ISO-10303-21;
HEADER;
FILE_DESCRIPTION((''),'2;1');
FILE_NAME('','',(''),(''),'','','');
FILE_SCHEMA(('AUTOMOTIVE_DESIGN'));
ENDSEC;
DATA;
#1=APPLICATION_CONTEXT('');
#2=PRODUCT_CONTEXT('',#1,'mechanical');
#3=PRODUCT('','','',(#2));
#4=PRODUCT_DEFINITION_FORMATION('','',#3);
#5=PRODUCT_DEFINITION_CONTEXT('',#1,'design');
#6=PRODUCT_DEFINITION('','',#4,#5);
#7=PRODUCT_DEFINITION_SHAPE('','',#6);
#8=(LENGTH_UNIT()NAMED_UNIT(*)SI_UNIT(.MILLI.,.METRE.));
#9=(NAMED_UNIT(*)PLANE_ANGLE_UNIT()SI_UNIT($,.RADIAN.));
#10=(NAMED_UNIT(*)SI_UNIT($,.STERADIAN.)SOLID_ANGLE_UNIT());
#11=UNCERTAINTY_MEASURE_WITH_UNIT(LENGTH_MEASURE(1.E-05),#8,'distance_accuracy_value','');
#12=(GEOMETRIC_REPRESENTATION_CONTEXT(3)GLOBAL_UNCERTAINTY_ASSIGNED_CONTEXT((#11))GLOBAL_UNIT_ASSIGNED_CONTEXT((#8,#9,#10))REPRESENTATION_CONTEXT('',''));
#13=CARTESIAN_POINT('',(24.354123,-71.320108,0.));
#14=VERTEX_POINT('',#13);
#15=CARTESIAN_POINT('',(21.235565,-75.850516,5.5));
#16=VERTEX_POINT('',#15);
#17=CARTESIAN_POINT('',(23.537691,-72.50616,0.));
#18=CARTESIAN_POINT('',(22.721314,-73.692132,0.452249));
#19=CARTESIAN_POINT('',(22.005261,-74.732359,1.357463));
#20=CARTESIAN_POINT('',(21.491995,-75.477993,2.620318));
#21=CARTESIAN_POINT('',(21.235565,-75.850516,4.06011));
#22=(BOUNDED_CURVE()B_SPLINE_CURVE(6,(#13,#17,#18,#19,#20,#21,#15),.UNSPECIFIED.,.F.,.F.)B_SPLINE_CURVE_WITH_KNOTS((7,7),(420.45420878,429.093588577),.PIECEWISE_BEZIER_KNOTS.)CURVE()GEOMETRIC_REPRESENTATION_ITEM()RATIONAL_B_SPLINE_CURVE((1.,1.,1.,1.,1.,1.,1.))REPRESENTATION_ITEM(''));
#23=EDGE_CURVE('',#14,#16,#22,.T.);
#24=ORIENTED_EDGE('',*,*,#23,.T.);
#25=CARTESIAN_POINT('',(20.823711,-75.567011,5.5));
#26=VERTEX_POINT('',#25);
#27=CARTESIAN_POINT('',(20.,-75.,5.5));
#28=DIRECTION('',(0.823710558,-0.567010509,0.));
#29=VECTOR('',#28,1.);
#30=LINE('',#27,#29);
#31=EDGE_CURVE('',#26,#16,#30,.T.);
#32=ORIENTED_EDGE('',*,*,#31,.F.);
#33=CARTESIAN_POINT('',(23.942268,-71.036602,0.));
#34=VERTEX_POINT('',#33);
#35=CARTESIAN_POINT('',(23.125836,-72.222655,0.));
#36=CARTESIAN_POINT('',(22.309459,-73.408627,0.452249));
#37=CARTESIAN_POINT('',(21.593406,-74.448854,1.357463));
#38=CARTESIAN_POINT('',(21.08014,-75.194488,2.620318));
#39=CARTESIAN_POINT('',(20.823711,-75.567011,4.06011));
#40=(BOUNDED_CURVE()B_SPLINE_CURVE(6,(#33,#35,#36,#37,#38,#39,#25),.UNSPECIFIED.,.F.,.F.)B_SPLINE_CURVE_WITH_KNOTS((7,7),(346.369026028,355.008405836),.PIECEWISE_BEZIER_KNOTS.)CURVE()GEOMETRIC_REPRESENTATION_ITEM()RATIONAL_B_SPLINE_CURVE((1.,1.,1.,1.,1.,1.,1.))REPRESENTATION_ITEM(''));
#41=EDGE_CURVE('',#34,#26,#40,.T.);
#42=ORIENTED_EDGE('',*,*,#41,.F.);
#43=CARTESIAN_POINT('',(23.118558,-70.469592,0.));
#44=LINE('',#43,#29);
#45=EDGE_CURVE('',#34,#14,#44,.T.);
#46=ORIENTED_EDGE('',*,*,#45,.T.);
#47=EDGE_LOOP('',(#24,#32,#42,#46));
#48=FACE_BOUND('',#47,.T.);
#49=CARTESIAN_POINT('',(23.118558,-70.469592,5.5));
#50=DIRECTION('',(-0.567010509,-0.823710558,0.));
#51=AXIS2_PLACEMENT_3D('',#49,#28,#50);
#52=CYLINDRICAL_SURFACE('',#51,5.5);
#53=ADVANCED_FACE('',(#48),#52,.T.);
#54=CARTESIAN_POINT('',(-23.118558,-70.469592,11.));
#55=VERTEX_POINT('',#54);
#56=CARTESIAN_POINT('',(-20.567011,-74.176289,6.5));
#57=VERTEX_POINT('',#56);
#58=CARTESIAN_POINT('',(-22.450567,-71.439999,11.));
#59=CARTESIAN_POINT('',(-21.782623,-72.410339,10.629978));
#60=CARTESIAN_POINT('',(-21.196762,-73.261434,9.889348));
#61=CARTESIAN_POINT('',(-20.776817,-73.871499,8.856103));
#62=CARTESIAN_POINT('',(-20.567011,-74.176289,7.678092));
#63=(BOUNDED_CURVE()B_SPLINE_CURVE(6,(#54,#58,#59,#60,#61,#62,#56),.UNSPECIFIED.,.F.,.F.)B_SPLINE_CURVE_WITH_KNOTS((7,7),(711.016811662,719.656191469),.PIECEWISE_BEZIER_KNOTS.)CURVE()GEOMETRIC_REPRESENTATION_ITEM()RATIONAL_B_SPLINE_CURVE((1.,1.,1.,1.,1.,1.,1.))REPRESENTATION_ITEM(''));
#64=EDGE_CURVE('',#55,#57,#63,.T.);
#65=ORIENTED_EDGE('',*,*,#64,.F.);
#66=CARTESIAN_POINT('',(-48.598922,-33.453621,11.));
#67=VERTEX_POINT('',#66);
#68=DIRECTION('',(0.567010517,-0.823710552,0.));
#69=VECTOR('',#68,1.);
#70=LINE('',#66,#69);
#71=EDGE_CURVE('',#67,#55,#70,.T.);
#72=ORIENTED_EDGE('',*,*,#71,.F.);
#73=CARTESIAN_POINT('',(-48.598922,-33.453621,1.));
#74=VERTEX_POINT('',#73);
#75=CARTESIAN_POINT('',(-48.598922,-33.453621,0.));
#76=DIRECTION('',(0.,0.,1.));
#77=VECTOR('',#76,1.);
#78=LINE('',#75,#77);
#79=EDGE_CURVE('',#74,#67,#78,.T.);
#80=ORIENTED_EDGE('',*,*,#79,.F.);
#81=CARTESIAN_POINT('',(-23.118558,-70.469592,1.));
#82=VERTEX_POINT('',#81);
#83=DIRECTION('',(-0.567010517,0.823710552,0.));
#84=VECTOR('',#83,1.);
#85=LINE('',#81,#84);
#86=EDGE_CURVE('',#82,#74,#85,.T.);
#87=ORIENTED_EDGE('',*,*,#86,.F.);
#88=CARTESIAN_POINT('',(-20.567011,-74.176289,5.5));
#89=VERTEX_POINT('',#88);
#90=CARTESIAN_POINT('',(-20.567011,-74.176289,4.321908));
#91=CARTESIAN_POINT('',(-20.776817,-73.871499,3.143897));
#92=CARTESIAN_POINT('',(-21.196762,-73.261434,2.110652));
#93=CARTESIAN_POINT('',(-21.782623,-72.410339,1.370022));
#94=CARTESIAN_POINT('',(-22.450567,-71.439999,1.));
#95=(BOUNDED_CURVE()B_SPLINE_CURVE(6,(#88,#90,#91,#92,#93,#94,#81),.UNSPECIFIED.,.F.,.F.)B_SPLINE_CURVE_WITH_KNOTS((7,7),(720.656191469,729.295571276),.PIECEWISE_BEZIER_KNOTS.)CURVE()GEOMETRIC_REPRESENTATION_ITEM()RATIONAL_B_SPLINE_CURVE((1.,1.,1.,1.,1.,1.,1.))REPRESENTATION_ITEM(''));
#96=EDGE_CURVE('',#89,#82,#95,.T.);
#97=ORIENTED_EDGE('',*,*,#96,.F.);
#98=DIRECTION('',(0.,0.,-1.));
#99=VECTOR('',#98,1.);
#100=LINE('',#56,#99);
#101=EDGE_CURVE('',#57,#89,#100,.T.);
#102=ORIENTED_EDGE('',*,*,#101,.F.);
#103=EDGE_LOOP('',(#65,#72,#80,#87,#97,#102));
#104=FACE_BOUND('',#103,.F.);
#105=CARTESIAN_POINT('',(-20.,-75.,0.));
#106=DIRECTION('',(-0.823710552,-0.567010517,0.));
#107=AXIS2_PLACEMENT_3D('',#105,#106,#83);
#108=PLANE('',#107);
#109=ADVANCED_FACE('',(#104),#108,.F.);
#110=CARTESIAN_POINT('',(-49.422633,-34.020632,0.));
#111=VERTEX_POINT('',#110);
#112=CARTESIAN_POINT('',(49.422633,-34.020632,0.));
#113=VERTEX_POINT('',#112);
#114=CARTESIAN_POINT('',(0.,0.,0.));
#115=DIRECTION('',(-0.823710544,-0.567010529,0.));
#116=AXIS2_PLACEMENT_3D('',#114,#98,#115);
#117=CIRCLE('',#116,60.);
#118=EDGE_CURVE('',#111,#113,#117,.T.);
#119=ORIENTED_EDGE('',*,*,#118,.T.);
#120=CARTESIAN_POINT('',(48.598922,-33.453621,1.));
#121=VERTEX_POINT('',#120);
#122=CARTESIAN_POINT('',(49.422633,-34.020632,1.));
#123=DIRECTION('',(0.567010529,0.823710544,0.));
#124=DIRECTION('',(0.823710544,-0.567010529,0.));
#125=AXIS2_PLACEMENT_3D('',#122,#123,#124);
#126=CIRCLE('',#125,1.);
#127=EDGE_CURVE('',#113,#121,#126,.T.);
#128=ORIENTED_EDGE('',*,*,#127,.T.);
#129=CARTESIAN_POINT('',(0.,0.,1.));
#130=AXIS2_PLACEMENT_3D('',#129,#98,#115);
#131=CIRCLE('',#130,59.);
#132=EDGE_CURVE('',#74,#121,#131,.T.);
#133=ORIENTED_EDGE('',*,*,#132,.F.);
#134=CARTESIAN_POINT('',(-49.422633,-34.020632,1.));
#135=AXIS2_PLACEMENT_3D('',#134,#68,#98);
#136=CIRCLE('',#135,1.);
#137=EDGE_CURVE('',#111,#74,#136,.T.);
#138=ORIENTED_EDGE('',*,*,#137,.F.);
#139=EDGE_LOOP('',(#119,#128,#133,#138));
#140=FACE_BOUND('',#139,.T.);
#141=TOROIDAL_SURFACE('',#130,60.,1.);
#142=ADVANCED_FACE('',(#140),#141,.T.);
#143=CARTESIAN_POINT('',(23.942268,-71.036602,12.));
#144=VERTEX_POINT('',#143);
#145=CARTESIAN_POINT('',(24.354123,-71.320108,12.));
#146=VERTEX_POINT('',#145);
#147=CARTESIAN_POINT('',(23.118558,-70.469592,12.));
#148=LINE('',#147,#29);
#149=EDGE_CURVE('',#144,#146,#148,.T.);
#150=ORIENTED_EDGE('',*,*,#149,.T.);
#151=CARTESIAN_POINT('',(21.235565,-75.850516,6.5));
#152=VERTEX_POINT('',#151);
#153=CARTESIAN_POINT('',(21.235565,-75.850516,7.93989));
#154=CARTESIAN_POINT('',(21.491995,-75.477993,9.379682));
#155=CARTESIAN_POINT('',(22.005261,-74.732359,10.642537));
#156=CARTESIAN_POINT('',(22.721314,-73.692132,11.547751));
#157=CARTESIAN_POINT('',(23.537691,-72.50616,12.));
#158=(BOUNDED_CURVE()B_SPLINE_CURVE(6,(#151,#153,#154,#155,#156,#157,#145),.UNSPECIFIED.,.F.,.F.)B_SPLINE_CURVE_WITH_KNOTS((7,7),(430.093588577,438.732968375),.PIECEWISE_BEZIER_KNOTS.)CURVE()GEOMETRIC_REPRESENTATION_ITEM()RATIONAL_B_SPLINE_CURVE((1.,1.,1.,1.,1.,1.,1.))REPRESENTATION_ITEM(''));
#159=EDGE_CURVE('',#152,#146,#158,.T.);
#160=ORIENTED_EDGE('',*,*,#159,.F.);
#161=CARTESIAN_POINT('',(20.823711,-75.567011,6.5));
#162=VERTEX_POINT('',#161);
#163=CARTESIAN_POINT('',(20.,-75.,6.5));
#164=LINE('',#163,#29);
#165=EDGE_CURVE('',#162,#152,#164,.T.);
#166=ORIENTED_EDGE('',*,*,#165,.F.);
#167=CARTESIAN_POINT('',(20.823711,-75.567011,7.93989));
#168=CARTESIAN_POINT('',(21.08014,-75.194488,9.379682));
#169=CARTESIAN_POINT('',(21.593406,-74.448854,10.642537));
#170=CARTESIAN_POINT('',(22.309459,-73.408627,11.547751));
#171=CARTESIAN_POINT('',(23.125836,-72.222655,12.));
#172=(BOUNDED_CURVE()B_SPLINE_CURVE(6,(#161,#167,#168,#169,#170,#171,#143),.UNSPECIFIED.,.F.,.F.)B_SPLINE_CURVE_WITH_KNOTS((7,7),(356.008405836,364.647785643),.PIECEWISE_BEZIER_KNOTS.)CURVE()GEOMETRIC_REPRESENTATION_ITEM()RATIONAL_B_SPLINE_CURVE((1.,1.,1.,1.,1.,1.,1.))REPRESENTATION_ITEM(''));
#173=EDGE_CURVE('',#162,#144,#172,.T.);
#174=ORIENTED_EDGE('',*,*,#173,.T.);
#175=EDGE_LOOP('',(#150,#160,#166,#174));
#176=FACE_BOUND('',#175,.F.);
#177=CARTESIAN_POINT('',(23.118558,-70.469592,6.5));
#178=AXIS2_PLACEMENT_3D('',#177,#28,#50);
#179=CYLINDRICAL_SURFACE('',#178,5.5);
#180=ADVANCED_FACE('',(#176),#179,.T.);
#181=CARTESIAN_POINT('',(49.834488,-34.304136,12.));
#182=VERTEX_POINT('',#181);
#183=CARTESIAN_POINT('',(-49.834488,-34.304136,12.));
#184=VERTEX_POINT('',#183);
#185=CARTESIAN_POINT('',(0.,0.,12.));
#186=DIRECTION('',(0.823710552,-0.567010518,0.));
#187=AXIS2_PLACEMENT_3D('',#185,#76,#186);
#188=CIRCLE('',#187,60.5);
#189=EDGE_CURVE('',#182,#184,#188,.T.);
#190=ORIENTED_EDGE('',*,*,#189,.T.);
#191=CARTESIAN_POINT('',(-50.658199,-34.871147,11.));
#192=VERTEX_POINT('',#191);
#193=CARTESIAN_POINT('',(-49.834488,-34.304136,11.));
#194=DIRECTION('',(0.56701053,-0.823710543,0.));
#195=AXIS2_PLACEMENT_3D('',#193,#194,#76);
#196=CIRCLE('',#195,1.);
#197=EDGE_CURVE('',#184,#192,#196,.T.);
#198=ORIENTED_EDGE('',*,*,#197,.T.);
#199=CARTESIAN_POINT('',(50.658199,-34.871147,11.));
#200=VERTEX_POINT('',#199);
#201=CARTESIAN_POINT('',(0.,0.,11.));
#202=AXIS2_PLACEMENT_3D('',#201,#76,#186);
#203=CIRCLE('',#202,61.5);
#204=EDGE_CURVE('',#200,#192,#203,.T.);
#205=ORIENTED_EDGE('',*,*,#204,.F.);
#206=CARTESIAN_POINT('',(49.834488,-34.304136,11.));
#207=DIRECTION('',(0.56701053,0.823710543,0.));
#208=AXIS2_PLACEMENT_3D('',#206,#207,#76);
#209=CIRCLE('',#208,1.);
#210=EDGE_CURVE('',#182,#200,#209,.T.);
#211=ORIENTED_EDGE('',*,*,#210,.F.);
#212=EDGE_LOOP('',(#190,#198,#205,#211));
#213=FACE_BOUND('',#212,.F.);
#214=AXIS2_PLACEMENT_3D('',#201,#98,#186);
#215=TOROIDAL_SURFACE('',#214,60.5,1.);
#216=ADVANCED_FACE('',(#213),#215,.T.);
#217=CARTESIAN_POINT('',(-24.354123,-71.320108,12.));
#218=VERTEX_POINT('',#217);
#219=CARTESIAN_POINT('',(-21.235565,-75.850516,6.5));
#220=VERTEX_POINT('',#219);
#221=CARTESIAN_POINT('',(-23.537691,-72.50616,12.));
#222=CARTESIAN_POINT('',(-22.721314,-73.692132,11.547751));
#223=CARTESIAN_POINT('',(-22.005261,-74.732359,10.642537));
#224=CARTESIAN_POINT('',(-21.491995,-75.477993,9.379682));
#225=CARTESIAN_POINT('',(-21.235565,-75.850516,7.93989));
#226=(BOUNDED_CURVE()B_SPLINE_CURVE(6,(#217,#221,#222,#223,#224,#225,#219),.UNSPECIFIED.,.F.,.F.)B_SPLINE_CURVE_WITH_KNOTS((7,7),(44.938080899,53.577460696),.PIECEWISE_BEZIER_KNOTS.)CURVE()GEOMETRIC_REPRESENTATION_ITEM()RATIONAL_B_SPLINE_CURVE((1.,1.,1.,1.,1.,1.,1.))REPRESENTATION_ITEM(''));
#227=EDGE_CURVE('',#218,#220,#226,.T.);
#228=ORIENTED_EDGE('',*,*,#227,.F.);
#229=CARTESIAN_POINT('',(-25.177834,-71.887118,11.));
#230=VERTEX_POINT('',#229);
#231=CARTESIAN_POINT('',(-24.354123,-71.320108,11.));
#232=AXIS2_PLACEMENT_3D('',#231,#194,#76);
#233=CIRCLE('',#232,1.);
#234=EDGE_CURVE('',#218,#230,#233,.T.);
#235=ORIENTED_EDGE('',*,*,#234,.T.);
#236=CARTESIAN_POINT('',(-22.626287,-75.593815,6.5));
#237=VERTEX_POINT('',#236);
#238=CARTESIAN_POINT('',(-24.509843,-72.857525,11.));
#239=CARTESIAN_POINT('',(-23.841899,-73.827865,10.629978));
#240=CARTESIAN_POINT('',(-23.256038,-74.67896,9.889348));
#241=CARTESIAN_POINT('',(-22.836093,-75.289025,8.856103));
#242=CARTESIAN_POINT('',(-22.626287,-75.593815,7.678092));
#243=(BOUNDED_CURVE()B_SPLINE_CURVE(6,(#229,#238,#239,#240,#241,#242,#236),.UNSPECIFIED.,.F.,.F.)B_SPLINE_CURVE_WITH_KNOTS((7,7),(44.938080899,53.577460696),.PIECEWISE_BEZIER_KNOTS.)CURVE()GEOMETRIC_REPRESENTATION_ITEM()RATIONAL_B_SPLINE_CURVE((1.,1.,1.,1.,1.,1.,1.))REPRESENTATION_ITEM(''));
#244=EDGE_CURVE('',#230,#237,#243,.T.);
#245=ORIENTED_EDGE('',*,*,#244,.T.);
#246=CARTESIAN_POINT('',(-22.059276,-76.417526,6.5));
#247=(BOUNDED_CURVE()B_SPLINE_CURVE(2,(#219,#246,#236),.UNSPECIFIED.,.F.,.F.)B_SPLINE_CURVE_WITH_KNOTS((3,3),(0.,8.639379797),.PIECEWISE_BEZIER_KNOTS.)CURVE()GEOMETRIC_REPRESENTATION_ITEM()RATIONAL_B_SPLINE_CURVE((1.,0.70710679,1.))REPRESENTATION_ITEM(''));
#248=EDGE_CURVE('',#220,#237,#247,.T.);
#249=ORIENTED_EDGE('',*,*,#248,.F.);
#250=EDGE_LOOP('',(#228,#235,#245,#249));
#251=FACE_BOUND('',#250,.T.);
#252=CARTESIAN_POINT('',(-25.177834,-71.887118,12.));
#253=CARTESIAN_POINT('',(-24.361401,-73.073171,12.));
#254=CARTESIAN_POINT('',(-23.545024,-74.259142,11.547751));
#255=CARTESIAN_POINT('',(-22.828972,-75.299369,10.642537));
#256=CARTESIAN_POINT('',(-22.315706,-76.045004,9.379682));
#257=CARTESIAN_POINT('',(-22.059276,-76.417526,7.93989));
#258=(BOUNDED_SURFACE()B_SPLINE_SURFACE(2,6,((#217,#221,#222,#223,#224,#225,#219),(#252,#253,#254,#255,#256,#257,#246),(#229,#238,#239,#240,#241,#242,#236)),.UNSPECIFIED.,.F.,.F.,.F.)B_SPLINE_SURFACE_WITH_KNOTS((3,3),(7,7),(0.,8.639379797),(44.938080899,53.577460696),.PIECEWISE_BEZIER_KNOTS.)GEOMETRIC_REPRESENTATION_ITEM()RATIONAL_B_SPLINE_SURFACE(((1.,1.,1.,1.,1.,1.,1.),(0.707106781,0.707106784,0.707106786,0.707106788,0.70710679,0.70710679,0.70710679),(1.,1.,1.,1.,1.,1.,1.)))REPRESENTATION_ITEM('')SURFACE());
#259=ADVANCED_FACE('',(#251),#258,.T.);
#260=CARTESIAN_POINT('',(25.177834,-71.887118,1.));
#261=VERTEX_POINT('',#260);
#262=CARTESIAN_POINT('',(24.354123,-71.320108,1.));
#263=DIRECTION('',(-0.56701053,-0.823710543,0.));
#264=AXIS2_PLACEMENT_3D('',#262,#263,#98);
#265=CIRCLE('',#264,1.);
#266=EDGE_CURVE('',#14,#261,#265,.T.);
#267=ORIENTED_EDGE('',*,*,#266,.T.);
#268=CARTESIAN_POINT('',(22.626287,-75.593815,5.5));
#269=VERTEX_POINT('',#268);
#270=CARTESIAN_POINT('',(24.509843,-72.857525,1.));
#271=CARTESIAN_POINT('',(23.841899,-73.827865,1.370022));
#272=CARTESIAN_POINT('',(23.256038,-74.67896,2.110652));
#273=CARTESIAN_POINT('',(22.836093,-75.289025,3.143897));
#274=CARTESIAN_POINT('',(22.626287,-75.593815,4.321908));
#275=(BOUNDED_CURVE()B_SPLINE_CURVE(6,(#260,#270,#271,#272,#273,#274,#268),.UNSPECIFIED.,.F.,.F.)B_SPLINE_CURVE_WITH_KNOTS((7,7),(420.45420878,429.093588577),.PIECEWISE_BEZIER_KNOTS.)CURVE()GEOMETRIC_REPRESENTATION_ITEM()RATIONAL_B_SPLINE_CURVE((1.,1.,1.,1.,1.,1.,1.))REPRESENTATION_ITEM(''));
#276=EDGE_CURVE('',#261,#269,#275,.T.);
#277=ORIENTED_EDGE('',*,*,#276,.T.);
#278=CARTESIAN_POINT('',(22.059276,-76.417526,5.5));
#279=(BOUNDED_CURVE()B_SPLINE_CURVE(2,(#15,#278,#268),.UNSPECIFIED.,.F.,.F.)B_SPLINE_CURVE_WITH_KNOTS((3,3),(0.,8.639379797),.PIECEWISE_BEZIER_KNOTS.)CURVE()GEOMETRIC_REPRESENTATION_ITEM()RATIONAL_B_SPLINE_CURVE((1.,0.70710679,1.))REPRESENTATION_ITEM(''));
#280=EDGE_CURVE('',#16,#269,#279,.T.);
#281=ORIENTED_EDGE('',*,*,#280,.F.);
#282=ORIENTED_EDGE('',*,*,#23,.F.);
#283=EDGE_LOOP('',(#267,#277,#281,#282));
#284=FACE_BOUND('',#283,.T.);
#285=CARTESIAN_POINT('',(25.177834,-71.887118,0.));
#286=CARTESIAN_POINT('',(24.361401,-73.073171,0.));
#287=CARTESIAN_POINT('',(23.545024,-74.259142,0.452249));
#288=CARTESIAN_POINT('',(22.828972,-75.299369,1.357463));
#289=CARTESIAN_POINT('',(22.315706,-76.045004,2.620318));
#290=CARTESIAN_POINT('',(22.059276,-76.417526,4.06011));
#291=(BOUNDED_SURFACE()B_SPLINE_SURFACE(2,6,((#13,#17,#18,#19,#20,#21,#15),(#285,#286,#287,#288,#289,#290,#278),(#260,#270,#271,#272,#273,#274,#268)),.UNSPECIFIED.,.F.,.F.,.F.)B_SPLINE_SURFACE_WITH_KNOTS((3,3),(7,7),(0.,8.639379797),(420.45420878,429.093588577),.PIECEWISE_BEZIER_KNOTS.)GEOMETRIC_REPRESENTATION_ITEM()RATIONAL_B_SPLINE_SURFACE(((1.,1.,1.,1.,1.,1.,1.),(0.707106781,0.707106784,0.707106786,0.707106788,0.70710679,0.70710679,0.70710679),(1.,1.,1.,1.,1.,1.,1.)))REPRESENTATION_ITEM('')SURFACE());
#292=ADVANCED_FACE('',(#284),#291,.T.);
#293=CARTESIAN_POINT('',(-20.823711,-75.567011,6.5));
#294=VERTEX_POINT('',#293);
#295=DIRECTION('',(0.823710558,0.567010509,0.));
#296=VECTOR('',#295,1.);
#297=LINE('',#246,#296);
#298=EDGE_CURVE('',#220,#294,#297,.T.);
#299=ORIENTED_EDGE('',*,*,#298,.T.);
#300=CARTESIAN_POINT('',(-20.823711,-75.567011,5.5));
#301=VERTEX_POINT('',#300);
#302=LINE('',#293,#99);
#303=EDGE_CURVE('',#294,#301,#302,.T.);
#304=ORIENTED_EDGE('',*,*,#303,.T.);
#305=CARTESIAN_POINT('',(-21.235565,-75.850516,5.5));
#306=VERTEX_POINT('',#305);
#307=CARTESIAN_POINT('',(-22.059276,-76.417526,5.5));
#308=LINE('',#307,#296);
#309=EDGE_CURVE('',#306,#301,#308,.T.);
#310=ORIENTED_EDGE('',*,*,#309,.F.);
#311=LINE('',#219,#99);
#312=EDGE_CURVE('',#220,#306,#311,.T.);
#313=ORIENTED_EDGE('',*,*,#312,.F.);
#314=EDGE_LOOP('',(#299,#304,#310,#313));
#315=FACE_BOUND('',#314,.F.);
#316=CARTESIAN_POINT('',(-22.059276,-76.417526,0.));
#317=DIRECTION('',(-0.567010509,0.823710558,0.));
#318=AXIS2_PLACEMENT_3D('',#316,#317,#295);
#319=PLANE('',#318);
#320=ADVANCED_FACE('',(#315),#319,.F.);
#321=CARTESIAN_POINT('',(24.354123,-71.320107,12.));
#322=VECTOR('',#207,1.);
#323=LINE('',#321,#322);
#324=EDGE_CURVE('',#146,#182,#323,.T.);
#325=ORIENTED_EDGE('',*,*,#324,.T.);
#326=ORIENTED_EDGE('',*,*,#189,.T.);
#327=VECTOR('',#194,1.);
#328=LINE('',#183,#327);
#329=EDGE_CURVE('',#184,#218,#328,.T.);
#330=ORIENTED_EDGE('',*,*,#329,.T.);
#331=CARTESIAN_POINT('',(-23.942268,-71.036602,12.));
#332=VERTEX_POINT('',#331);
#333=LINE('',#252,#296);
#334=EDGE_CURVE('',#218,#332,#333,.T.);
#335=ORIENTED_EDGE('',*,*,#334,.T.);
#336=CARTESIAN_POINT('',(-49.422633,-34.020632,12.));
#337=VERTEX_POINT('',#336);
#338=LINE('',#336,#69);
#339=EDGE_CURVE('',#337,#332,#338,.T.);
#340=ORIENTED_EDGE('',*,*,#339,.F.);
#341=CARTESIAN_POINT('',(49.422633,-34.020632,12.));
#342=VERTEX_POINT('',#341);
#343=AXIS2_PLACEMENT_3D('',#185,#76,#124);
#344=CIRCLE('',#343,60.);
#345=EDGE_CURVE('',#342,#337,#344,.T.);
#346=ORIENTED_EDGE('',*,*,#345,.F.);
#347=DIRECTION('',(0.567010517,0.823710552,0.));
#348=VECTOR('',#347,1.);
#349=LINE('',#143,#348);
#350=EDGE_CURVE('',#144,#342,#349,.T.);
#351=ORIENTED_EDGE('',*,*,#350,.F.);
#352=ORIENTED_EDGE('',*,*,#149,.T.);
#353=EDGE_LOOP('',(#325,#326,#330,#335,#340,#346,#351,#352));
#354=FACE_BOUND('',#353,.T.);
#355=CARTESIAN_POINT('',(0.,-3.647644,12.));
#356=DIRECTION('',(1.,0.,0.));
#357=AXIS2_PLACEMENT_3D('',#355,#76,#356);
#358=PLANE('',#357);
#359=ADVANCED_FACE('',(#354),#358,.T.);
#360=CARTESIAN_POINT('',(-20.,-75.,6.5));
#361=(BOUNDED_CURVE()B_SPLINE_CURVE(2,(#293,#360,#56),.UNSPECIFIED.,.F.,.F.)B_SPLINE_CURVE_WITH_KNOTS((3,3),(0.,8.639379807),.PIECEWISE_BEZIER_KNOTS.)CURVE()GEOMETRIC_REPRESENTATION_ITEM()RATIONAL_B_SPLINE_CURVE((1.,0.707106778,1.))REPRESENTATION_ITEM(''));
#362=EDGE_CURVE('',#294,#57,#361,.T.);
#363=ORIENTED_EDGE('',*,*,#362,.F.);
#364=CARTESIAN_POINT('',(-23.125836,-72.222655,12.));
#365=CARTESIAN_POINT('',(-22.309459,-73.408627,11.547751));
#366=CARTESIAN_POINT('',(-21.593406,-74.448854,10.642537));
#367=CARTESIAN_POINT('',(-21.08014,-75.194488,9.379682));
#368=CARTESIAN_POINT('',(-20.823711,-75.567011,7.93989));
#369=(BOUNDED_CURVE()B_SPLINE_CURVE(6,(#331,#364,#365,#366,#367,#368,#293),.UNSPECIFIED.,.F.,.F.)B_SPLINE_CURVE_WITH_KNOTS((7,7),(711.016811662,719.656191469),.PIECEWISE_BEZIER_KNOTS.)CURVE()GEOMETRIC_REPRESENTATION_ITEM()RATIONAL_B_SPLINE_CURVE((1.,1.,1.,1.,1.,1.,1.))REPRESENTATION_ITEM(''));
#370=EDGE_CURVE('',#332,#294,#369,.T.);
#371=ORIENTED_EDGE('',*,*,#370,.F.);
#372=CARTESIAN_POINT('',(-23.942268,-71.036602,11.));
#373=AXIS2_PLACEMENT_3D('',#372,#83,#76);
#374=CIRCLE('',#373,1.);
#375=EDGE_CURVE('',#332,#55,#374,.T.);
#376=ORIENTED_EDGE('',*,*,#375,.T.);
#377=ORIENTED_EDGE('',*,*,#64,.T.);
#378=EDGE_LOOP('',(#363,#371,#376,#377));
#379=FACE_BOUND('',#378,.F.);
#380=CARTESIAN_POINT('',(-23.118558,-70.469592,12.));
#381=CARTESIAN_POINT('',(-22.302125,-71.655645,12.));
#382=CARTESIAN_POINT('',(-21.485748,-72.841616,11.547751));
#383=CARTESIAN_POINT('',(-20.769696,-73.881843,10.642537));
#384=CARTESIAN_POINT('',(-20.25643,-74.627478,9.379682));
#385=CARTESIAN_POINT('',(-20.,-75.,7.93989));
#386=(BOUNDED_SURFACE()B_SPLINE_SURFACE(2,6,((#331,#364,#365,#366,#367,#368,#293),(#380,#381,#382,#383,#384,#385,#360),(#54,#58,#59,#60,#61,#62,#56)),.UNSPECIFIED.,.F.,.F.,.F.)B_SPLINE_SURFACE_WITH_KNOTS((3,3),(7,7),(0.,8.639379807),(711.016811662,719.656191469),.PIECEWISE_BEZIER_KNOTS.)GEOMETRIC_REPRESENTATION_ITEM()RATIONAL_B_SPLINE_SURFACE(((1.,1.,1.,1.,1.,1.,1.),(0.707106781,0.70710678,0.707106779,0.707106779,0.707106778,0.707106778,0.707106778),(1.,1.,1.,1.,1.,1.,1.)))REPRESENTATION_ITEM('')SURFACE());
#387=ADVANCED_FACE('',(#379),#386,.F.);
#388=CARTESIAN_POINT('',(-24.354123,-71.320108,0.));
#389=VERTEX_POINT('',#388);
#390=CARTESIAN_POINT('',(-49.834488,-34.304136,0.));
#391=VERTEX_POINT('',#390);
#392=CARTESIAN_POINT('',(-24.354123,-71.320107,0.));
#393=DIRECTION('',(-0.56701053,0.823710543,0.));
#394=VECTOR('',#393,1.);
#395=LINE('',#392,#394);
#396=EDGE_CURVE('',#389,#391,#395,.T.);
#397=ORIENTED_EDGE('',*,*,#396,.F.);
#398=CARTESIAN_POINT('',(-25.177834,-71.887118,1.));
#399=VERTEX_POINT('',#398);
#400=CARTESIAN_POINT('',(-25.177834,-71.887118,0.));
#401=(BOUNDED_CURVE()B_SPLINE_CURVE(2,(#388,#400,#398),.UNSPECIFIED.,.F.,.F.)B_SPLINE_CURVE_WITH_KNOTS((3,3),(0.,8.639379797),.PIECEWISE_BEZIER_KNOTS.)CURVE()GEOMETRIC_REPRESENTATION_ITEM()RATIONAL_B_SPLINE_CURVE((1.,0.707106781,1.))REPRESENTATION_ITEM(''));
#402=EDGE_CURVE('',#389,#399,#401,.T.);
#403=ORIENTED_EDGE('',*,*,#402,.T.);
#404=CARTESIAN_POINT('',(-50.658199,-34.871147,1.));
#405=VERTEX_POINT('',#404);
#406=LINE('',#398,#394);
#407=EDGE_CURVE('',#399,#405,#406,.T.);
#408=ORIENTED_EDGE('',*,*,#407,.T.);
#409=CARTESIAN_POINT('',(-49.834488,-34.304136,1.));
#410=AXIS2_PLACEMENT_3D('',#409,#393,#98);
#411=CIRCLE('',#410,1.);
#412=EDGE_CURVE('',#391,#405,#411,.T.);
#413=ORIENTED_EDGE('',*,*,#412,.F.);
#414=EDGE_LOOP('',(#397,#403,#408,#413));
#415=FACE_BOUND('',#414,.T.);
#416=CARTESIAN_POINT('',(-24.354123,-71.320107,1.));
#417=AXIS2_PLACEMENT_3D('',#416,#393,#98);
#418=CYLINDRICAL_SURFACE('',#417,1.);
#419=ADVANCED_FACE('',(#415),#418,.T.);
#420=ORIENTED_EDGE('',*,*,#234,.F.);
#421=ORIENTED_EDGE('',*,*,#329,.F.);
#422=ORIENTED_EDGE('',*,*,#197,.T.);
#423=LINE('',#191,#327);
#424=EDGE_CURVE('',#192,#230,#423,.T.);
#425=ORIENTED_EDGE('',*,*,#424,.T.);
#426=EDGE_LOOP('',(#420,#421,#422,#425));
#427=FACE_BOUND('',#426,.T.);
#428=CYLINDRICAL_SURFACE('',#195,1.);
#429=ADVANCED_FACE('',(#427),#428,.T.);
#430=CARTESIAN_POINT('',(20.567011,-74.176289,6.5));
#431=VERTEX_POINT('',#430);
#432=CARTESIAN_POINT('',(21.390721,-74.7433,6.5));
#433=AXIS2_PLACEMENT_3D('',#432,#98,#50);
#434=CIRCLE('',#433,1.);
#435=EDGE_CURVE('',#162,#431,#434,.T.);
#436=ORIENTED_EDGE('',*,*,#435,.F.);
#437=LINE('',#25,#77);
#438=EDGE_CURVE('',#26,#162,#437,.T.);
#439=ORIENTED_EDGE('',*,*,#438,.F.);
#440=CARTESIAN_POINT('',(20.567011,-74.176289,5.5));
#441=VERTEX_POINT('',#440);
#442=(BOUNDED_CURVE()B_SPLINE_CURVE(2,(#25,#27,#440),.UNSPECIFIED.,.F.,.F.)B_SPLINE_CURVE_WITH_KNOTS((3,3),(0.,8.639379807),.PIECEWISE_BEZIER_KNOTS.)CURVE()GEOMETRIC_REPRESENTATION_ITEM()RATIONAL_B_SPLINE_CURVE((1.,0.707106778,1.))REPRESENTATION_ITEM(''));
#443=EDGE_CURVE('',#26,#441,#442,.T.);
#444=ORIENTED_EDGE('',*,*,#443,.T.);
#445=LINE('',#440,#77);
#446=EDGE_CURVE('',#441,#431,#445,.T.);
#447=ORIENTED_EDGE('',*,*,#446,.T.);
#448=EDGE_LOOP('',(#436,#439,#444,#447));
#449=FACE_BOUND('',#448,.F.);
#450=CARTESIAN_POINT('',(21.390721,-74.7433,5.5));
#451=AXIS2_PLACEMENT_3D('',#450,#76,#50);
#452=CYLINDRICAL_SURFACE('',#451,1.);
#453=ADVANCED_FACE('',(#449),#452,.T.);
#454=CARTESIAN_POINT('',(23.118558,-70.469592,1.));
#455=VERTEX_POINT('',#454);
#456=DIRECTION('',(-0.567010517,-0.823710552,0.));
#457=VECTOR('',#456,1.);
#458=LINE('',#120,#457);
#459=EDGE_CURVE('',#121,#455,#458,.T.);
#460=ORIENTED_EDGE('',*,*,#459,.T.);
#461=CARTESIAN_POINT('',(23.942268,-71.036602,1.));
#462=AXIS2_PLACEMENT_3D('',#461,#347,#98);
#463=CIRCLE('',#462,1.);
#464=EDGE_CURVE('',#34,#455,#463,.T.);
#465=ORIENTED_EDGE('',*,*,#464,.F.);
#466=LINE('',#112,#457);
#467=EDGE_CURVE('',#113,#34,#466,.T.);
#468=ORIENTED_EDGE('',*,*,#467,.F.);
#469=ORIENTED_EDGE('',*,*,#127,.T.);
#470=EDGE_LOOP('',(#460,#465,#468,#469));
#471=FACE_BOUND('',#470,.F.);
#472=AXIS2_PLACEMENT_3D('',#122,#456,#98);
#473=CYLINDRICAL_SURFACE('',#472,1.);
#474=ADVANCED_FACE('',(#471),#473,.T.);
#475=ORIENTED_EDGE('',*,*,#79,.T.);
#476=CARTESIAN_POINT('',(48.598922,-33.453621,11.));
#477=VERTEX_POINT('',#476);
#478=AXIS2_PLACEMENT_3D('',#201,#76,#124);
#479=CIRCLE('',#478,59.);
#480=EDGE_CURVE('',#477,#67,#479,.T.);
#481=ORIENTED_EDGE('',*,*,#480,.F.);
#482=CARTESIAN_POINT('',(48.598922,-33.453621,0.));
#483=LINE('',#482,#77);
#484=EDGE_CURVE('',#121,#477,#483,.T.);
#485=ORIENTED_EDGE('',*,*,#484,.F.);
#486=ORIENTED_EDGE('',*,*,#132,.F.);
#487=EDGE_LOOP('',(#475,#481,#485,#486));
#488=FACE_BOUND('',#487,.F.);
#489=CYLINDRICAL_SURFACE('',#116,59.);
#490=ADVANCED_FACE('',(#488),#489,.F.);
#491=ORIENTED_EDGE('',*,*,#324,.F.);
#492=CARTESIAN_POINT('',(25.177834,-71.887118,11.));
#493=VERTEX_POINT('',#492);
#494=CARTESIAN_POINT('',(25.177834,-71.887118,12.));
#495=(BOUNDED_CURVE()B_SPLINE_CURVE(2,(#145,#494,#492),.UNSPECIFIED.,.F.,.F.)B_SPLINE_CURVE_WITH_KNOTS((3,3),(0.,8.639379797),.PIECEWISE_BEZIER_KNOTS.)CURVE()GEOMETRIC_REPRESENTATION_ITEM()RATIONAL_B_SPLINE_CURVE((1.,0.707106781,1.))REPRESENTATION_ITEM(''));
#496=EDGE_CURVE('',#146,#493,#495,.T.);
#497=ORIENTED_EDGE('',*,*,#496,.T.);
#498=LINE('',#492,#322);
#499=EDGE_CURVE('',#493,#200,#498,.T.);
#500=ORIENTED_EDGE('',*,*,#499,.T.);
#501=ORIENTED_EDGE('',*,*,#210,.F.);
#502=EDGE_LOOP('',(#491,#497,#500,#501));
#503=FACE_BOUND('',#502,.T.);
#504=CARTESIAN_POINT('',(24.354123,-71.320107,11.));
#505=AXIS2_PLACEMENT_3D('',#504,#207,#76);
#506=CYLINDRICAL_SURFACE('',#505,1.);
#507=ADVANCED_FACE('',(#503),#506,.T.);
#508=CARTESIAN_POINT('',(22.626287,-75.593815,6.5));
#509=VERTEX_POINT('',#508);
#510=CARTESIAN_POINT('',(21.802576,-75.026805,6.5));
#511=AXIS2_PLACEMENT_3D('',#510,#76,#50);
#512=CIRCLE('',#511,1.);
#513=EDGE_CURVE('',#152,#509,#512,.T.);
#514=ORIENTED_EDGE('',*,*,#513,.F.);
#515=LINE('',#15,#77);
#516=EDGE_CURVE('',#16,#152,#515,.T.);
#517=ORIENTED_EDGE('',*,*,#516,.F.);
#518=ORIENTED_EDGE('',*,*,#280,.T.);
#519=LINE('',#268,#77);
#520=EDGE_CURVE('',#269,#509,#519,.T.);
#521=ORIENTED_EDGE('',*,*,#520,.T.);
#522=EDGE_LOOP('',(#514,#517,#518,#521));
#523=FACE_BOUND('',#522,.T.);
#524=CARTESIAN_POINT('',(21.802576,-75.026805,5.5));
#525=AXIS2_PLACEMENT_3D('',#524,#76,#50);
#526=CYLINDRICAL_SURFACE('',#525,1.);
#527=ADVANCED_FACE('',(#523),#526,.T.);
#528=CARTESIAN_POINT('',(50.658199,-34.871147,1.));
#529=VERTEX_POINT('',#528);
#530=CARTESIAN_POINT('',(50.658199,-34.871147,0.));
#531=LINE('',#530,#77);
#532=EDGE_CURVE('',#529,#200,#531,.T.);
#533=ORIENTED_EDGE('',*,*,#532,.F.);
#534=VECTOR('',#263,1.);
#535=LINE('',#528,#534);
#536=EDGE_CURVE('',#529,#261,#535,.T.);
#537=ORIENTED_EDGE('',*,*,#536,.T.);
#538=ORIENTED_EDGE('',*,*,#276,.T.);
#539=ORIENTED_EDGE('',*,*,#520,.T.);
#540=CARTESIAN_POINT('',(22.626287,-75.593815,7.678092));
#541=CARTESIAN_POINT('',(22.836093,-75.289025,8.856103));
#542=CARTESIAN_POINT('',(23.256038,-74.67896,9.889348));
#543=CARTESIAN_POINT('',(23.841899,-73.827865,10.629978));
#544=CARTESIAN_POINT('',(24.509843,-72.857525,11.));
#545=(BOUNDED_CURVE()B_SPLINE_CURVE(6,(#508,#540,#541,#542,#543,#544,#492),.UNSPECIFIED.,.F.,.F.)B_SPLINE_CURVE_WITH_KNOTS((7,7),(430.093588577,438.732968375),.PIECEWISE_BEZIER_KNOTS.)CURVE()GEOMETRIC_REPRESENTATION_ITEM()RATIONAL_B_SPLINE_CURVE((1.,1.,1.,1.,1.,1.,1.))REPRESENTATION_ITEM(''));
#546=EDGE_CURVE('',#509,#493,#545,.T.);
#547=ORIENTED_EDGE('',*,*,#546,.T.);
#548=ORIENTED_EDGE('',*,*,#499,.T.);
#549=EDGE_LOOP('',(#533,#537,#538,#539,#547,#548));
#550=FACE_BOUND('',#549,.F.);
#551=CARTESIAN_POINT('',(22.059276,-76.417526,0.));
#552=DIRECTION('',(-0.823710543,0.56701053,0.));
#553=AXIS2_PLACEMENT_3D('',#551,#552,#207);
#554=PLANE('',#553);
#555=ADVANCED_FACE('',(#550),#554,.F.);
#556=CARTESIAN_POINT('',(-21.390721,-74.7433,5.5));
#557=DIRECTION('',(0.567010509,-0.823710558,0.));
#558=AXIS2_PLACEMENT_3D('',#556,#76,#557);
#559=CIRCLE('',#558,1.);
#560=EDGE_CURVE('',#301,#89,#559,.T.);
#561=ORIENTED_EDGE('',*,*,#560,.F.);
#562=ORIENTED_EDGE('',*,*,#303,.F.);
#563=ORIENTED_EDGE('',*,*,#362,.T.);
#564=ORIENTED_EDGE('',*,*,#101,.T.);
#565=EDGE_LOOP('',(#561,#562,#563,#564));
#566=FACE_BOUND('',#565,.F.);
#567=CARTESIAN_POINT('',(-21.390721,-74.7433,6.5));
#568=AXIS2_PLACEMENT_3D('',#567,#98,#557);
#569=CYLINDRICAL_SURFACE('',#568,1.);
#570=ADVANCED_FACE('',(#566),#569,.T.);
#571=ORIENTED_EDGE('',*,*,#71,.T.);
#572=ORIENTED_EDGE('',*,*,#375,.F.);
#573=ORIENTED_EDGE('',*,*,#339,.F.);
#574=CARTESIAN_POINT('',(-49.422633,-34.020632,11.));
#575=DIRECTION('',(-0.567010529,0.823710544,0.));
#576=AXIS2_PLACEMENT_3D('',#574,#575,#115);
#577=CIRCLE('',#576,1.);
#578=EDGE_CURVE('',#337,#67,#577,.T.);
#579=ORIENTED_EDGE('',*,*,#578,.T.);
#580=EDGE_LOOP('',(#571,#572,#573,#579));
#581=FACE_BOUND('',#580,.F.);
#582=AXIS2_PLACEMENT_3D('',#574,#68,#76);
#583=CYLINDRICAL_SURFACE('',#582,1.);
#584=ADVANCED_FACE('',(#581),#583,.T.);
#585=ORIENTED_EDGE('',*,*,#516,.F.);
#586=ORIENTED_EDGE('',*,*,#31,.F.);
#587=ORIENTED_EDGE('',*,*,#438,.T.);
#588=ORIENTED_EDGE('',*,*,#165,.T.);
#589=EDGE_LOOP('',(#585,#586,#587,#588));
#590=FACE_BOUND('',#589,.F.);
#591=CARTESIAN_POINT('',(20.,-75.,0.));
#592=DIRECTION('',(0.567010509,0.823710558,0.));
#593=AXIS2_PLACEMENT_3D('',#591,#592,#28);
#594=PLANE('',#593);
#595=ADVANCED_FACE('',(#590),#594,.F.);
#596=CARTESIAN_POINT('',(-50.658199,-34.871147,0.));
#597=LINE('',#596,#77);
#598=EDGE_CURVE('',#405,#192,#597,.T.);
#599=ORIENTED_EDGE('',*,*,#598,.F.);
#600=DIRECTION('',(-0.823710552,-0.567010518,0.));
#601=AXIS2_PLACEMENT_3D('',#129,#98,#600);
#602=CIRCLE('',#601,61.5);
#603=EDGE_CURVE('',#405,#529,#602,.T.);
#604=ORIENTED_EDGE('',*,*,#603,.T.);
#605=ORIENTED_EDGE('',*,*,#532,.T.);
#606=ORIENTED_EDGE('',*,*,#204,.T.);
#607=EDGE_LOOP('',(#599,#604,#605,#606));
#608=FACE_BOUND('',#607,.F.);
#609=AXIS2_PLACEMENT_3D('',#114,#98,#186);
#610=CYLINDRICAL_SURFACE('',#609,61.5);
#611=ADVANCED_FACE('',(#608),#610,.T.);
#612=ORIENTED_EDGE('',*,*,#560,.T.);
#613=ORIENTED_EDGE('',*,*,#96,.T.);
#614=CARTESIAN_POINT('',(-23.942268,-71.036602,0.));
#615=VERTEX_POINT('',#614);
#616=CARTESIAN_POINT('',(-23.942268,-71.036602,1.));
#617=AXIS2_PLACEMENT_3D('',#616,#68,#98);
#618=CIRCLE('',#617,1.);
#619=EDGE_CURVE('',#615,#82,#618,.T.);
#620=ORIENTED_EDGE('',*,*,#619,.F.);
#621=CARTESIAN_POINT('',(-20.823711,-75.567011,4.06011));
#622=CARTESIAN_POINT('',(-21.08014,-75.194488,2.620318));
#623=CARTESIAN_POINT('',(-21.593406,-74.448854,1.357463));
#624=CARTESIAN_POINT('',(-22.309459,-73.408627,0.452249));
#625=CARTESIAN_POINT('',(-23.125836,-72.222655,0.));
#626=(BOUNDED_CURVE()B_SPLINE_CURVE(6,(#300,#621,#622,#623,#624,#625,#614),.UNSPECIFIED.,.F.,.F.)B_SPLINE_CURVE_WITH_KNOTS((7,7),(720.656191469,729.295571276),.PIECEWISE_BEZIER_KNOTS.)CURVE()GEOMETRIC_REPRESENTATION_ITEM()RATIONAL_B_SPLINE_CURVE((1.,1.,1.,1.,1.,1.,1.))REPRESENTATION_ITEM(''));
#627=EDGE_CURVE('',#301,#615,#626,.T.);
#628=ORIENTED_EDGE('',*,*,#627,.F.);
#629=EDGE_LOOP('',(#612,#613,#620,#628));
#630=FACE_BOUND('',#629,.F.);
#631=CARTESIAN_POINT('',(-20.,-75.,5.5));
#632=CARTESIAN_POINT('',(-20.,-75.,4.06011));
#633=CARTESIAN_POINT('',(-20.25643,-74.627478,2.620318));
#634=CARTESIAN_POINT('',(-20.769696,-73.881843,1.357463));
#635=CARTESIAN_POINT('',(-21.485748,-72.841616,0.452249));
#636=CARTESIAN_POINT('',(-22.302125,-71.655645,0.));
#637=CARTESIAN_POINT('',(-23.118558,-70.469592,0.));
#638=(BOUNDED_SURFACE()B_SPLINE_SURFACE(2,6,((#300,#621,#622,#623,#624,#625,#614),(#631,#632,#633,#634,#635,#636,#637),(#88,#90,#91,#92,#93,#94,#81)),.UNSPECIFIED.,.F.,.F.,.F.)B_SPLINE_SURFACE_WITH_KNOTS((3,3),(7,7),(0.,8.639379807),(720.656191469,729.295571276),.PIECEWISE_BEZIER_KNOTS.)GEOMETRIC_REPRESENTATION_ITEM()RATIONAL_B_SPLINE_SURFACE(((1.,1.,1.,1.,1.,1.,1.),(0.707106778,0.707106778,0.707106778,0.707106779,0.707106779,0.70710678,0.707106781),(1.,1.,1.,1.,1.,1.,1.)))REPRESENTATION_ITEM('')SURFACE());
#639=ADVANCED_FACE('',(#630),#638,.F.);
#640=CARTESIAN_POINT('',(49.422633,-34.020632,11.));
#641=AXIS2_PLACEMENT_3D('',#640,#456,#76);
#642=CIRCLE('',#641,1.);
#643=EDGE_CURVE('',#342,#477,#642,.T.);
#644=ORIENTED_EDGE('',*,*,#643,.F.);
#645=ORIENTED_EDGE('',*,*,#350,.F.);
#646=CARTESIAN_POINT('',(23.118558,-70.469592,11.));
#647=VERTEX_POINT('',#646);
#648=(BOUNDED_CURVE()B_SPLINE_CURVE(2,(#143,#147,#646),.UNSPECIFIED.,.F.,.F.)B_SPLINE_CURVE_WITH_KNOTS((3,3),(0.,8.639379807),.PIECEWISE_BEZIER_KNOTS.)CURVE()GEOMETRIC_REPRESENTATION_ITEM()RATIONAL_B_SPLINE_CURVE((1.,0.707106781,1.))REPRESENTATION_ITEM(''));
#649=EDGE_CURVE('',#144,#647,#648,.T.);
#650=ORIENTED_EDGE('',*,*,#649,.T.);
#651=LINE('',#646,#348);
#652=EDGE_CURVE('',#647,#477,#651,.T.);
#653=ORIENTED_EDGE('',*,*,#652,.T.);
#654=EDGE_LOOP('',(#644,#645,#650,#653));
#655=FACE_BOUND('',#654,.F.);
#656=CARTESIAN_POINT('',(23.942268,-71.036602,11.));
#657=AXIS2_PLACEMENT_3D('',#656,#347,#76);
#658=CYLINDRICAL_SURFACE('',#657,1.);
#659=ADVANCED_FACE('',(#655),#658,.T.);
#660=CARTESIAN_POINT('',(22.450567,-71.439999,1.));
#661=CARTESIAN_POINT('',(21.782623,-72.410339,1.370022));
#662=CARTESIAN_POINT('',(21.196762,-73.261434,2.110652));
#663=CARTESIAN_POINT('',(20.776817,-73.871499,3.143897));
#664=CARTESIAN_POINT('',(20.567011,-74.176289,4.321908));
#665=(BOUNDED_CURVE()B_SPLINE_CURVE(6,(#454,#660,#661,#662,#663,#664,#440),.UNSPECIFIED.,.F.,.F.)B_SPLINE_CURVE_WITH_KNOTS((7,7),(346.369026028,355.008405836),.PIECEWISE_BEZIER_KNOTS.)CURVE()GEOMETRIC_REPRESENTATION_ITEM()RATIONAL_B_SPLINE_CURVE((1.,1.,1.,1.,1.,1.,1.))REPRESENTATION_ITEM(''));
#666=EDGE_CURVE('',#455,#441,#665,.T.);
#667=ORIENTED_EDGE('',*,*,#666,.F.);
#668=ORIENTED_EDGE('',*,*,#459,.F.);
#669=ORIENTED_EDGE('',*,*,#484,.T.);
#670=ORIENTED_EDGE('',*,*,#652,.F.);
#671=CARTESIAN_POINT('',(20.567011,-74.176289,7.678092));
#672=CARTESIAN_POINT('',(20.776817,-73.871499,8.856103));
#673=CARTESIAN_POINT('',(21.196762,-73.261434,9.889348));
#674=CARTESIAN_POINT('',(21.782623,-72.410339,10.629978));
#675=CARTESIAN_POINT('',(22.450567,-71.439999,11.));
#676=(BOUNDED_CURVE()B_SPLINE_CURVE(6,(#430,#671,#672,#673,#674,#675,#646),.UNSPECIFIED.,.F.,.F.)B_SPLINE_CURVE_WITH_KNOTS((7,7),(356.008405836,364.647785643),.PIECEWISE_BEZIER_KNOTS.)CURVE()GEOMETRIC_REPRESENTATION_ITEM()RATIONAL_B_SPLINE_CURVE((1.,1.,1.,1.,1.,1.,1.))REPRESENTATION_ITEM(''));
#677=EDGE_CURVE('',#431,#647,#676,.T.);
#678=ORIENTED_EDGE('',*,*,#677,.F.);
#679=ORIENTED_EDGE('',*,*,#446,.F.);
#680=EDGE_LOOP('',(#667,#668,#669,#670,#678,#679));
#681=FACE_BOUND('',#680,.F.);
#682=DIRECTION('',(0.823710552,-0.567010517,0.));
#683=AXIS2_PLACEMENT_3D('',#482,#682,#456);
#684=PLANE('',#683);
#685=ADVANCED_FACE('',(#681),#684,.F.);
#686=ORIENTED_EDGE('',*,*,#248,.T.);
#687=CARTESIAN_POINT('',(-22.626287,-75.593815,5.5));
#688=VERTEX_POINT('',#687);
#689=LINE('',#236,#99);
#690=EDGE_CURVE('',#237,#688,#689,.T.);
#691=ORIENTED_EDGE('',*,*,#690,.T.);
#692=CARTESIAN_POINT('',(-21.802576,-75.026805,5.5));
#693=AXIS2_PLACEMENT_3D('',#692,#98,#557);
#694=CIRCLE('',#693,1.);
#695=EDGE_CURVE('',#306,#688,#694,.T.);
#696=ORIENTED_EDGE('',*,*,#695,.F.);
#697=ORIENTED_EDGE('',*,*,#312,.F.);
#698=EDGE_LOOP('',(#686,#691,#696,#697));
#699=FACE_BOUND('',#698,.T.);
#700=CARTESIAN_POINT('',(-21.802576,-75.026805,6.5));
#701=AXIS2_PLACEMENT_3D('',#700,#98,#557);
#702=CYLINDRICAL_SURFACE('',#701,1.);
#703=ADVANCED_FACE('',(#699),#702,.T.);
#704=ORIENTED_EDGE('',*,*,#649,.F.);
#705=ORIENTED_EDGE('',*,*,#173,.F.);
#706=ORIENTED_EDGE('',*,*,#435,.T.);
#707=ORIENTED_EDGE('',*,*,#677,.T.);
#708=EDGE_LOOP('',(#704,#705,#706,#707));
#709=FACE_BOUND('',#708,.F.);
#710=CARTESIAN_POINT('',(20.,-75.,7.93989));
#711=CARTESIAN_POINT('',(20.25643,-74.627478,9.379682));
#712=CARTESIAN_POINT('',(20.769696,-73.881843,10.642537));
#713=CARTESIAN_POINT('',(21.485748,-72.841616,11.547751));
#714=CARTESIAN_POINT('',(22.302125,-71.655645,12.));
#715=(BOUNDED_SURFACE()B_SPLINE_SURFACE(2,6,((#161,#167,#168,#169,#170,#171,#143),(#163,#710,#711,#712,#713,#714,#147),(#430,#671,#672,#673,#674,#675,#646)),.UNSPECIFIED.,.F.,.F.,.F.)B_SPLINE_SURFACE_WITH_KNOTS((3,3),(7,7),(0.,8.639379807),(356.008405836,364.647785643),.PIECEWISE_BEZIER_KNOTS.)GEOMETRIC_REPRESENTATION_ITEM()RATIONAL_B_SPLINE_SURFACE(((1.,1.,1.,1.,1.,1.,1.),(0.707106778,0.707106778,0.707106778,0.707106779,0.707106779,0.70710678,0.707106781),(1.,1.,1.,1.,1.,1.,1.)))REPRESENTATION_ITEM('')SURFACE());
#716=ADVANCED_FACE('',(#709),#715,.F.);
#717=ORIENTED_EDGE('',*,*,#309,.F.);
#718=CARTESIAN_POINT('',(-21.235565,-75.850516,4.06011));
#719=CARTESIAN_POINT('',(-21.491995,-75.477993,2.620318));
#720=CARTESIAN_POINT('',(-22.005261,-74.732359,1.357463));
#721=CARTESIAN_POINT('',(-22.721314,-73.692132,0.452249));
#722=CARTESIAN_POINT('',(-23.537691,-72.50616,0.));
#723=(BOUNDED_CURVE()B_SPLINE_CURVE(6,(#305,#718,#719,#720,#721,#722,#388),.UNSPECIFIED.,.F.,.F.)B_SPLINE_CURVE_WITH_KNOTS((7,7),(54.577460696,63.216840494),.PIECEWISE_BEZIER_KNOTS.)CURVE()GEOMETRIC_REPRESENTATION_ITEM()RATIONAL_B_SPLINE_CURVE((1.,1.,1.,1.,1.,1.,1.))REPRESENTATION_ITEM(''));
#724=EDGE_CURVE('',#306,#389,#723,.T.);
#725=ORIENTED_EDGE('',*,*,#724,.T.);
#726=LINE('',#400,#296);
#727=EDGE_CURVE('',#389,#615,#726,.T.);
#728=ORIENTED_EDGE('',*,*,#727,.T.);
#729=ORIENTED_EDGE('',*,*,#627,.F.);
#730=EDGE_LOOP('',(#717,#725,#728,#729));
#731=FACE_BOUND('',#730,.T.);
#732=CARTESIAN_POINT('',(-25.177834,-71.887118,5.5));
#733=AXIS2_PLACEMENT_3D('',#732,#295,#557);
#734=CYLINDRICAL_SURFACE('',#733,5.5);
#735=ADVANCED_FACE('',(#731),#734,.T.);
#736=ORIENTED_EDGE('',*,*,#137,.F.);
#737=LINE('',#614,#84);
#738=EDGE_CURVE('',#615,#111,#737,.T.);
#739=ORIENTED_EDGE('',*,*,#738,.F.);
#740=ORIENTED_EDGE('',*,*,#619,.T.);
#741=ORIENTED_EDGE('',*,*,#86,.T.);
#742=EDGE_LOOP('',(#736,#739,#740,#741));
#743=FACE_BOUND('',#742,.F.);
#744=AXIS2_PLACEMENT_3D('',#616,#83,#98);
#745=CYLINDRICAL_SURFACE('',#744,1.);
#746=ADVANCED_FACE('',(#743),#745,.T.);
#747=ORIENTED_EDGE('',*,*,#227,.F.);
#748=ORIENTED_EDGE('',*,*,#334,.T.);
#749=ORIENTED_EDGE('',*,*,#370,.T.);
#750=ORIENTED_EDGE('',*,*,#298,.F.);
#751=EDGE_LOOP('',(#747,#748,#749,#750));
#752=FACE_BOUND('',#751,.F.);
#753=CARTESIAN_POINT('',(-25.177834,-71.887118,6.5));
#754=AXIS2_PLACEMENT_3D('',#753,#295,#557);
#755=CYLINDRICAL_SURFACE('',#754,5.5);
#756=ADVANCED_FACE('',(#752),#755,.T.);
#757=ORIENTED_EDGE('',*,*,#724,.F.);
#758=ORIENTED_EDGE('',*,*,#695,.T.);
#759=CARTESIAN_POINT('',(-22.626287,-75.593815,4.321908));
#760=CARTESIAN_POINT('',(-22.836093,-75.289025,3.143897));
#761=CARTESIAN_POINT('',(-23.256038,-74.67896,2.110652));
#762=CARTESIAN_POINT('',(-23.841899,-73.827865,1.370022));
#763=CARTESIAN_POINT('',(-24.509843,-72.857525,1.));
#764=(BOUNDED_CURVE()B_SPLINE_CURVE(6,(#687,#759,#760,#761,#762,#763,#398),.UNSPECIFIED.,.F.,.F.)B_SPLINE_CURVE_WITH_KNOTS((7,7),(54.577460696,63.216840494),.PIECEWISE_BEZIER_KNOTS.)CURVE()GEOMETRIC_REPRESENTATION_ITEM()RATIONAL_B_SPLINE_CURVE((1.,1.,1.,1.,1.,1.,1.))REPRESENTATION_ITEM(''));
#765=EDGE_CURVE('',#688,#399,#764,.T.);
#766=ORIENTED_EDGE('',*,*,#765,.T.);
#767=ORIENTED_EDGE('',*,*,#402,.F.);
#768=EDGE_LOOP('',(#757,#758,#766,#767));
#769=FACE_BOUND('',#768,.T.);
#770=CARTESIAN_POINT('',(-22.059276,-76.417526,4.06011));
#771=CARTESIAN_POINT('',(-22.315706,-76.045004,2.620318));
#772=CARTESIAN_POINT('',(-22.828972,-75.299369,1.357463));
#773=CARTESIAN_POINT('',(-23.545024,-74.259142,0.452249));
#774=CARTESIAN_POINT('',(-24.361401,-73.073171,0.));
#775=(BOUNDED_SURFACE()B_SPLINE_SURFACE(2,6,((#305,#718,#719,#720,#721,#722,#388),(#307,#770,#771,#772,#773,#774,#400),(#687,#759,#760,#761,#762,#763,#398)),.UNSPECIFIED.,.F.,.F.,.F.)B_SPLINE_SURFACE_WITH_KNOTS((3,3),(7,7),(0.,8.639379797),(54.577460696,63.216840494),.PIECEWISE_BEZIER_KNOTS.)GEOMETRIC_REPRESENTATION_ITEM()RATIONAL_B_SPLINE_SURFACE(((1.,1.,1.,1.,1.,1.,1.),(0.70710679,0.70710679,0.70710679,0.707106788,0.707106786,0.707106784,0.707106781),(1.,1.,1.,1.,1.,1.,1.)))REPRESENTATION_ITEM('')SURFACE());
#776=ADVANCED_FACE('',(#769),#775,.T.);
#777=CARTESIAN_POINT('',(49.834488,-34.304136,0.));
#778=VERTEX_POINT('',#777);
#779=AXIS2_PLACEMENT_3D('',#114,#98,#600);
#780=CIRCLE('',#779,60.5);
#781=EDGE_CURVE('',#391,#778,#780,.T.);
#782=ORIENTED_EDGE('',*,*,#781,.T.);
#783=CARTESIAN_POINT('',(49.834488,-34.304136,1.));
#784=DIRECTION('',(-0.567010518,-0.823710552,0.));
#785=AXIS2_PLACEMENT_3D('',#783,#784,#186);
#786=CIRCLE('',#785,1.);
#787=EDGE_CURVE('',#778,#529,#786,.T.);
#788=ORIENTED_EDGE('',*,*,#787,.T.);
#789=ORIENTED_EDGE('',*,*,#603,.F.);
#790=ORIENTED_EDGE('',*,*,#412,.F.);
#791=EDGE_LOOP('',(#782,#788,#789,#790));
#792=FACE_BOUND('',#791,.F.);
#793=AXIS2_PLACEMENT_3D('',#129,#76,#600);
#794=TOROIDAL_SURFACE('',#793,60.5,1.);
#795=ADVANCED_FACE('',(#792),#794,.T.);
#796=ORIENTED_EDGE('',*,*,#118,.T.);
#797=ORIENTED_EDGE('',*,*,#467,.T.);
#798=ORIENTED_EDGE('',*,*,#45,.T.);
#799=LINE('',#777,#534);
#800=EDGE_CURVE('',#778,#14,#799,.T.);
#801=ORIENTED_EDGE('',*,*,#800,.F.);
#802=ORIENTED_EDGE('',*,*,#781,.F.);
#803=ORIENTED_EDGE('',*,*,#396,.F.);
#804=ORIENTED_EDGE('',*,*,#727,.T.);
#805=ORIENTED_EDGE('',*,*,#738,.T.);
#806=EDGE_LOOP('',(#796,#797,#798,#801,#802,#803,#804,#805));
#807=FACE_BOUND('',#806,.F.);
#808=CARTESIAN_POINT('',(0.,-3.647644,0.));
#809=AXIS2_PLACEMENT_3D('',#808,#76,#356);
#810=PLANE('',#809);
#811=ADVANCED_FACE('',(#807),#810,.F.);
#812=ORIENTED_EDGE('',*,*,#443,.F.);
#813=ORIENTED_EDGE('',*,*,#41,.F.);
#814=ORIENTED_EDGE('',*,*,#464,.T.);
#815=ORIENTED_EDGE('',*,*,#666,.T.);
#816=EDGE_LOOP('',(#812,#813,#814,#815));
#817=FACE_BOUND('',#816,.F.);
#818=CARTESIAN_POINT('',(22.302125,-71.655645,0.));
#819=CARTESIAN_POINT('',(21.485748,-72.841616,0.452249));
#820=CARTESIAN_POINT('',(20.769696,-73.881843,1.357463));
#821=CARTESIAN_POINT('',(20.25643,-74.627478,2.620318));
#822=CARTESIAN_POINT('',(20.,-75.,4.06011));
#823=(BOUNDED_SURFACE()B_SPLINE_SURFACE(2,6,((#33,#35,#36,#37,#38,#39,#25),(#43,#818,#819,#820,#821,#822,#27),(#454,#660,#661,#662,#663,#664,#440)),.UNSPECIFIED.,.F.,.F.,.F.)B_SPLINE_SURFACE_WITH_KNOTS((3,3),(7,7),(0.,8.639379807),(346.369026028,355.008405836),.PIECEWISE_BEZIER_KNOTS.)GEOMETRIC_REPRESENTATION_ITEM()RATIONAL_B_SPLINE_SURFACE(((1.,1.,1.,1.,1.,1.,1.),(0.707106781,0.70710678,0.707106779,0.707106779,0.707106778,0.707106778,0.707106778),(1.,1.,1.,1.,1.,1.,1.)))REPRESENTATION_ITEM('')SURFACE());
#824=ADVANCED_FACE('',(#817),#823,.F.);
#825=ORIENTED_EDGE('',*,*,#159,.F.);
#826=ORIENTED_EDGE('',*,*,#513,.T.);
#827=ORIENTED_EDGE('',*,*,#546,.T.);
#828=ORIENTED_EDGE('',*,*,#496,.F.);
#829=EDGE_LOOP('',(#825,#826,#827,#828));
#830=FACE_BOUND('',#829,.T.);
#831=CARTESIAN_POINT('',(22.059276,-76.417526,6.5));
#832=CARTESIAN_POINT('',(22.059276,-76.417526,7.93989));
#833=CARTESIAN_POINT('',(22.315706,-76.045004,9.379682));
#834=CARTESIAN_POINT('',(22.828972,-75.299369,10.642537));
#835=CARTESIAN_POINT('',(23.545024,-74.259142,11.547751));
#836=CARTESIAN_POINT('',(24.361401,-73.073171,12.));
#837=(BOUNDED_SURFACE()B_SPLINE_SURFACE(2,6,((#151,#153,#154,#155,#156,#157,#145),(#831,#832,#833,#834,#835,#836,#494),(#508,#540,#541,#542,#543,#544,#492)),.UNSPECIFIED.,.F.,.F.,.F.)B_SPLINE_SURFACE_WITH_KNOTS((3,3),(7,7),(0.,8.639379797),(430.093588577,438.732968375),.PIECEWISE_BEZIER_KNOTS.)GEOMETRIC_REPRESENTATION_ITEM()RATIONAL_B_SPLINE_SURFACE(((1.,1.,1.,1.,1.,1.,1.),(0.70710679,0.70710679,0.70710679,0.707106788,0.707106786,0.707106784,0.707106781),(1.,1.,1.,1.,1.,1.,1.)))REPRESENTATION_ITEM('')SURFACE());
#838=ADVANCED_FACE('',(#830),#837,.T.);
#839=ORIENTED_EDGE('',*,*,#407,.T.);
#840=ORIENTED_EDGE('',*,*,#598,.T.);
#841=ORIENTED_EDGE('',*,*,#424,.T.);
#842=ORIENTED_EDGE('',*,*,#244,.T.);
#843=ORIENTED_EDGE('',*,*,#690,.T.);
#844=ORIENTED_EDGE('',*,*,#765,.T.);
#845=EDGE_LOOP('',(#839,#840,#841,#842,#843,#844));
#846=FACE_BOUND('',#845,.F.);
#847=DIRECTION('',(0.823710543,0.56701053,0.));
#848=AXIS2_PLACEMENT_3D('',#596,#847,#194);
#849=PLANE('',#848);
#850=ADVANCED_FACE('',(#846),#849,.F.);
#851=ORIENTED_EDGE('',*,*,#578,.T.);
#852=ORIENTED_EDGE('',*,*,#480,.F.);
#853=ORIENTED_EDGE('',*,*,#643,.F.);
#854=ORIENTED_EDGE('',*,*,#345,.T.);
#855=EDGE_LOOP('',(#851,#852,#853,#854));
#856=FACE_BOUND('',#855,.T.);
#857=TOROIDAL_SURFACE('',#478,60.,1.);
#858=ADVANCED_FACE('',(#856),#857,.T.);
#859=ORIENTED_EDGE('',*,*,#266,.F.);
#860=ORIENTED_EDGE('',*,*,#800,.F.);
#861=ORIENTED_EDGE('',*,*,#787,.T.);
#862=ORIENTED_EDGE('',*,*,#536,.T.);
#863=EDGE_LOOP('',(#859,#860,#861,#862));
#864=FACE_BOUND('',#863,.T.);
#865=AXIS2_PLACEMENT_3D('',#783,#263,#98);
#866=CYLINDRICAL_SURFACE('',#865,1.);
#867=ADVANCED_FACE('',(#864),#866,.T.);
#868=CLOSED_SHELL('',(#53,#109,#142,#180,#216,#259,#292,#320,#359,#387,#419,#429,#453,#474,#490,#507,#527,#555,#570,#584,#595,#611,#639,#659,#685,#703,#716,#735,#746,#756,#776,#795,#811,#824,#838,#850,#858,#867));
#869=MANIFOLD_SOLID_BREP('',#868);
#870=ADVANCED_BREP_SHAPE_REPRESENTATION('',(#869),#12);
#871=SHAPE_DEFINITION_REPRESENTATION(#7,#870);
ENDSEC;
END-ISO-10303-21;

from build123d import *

# Parameters (mm, degrees)
F1_DEPTH = 12
F2_R     = 5.5
F3_R     = 1


with BuildPart() as f1:
    # F0 (on Top) → F1 (new body)
    with BuildSketch(Plane.XY):
        with BuildLine():
            ThreePointArc((-48.598922, -33.453621), (0, 59), (48.598922, -33.453621))
            Line((48.598922, -33.453621), (20, -75))
            Line((20, -75), (22.059276, -76.417526))
            Line((22.059276, -76.417526), (50.658199, -34.871147))
            ThreePointArc((50.658199, -34.871147), (0, 61.5), (-50.658199, -34.871147))
            Line((-50.658199, -34.871147), (-22.059276, -76.417526))
            Line((-22.059276, -76.417526), (-20, -75))
            Line((-20, -75), (-48.598922, -33.453621))
        make_face()
    extrude(amount=F1_DEPTH)

    # F2
    f2_edges = [f1.edges().sort_by_distance(p)[0] for p in [
        (-21.029638, -75.708763, 0),
        (-21.029638, -75.708763, 12),
        (21.029638, -75.708763, 12),
        (21.029638, -75.708763, 0),
    ]]
    fillet(f2_edges, radius=F2_R)

    # F3
    f3_edges = [f1.edges().sort_by_distance(p)[0] for p in [
        (-37.918017, -53.379133, 12),
        (-35.85874, -51.961606, 0),
    ]]
    fillet(f3_edges, radius=F3_R)


solid = f1.part
